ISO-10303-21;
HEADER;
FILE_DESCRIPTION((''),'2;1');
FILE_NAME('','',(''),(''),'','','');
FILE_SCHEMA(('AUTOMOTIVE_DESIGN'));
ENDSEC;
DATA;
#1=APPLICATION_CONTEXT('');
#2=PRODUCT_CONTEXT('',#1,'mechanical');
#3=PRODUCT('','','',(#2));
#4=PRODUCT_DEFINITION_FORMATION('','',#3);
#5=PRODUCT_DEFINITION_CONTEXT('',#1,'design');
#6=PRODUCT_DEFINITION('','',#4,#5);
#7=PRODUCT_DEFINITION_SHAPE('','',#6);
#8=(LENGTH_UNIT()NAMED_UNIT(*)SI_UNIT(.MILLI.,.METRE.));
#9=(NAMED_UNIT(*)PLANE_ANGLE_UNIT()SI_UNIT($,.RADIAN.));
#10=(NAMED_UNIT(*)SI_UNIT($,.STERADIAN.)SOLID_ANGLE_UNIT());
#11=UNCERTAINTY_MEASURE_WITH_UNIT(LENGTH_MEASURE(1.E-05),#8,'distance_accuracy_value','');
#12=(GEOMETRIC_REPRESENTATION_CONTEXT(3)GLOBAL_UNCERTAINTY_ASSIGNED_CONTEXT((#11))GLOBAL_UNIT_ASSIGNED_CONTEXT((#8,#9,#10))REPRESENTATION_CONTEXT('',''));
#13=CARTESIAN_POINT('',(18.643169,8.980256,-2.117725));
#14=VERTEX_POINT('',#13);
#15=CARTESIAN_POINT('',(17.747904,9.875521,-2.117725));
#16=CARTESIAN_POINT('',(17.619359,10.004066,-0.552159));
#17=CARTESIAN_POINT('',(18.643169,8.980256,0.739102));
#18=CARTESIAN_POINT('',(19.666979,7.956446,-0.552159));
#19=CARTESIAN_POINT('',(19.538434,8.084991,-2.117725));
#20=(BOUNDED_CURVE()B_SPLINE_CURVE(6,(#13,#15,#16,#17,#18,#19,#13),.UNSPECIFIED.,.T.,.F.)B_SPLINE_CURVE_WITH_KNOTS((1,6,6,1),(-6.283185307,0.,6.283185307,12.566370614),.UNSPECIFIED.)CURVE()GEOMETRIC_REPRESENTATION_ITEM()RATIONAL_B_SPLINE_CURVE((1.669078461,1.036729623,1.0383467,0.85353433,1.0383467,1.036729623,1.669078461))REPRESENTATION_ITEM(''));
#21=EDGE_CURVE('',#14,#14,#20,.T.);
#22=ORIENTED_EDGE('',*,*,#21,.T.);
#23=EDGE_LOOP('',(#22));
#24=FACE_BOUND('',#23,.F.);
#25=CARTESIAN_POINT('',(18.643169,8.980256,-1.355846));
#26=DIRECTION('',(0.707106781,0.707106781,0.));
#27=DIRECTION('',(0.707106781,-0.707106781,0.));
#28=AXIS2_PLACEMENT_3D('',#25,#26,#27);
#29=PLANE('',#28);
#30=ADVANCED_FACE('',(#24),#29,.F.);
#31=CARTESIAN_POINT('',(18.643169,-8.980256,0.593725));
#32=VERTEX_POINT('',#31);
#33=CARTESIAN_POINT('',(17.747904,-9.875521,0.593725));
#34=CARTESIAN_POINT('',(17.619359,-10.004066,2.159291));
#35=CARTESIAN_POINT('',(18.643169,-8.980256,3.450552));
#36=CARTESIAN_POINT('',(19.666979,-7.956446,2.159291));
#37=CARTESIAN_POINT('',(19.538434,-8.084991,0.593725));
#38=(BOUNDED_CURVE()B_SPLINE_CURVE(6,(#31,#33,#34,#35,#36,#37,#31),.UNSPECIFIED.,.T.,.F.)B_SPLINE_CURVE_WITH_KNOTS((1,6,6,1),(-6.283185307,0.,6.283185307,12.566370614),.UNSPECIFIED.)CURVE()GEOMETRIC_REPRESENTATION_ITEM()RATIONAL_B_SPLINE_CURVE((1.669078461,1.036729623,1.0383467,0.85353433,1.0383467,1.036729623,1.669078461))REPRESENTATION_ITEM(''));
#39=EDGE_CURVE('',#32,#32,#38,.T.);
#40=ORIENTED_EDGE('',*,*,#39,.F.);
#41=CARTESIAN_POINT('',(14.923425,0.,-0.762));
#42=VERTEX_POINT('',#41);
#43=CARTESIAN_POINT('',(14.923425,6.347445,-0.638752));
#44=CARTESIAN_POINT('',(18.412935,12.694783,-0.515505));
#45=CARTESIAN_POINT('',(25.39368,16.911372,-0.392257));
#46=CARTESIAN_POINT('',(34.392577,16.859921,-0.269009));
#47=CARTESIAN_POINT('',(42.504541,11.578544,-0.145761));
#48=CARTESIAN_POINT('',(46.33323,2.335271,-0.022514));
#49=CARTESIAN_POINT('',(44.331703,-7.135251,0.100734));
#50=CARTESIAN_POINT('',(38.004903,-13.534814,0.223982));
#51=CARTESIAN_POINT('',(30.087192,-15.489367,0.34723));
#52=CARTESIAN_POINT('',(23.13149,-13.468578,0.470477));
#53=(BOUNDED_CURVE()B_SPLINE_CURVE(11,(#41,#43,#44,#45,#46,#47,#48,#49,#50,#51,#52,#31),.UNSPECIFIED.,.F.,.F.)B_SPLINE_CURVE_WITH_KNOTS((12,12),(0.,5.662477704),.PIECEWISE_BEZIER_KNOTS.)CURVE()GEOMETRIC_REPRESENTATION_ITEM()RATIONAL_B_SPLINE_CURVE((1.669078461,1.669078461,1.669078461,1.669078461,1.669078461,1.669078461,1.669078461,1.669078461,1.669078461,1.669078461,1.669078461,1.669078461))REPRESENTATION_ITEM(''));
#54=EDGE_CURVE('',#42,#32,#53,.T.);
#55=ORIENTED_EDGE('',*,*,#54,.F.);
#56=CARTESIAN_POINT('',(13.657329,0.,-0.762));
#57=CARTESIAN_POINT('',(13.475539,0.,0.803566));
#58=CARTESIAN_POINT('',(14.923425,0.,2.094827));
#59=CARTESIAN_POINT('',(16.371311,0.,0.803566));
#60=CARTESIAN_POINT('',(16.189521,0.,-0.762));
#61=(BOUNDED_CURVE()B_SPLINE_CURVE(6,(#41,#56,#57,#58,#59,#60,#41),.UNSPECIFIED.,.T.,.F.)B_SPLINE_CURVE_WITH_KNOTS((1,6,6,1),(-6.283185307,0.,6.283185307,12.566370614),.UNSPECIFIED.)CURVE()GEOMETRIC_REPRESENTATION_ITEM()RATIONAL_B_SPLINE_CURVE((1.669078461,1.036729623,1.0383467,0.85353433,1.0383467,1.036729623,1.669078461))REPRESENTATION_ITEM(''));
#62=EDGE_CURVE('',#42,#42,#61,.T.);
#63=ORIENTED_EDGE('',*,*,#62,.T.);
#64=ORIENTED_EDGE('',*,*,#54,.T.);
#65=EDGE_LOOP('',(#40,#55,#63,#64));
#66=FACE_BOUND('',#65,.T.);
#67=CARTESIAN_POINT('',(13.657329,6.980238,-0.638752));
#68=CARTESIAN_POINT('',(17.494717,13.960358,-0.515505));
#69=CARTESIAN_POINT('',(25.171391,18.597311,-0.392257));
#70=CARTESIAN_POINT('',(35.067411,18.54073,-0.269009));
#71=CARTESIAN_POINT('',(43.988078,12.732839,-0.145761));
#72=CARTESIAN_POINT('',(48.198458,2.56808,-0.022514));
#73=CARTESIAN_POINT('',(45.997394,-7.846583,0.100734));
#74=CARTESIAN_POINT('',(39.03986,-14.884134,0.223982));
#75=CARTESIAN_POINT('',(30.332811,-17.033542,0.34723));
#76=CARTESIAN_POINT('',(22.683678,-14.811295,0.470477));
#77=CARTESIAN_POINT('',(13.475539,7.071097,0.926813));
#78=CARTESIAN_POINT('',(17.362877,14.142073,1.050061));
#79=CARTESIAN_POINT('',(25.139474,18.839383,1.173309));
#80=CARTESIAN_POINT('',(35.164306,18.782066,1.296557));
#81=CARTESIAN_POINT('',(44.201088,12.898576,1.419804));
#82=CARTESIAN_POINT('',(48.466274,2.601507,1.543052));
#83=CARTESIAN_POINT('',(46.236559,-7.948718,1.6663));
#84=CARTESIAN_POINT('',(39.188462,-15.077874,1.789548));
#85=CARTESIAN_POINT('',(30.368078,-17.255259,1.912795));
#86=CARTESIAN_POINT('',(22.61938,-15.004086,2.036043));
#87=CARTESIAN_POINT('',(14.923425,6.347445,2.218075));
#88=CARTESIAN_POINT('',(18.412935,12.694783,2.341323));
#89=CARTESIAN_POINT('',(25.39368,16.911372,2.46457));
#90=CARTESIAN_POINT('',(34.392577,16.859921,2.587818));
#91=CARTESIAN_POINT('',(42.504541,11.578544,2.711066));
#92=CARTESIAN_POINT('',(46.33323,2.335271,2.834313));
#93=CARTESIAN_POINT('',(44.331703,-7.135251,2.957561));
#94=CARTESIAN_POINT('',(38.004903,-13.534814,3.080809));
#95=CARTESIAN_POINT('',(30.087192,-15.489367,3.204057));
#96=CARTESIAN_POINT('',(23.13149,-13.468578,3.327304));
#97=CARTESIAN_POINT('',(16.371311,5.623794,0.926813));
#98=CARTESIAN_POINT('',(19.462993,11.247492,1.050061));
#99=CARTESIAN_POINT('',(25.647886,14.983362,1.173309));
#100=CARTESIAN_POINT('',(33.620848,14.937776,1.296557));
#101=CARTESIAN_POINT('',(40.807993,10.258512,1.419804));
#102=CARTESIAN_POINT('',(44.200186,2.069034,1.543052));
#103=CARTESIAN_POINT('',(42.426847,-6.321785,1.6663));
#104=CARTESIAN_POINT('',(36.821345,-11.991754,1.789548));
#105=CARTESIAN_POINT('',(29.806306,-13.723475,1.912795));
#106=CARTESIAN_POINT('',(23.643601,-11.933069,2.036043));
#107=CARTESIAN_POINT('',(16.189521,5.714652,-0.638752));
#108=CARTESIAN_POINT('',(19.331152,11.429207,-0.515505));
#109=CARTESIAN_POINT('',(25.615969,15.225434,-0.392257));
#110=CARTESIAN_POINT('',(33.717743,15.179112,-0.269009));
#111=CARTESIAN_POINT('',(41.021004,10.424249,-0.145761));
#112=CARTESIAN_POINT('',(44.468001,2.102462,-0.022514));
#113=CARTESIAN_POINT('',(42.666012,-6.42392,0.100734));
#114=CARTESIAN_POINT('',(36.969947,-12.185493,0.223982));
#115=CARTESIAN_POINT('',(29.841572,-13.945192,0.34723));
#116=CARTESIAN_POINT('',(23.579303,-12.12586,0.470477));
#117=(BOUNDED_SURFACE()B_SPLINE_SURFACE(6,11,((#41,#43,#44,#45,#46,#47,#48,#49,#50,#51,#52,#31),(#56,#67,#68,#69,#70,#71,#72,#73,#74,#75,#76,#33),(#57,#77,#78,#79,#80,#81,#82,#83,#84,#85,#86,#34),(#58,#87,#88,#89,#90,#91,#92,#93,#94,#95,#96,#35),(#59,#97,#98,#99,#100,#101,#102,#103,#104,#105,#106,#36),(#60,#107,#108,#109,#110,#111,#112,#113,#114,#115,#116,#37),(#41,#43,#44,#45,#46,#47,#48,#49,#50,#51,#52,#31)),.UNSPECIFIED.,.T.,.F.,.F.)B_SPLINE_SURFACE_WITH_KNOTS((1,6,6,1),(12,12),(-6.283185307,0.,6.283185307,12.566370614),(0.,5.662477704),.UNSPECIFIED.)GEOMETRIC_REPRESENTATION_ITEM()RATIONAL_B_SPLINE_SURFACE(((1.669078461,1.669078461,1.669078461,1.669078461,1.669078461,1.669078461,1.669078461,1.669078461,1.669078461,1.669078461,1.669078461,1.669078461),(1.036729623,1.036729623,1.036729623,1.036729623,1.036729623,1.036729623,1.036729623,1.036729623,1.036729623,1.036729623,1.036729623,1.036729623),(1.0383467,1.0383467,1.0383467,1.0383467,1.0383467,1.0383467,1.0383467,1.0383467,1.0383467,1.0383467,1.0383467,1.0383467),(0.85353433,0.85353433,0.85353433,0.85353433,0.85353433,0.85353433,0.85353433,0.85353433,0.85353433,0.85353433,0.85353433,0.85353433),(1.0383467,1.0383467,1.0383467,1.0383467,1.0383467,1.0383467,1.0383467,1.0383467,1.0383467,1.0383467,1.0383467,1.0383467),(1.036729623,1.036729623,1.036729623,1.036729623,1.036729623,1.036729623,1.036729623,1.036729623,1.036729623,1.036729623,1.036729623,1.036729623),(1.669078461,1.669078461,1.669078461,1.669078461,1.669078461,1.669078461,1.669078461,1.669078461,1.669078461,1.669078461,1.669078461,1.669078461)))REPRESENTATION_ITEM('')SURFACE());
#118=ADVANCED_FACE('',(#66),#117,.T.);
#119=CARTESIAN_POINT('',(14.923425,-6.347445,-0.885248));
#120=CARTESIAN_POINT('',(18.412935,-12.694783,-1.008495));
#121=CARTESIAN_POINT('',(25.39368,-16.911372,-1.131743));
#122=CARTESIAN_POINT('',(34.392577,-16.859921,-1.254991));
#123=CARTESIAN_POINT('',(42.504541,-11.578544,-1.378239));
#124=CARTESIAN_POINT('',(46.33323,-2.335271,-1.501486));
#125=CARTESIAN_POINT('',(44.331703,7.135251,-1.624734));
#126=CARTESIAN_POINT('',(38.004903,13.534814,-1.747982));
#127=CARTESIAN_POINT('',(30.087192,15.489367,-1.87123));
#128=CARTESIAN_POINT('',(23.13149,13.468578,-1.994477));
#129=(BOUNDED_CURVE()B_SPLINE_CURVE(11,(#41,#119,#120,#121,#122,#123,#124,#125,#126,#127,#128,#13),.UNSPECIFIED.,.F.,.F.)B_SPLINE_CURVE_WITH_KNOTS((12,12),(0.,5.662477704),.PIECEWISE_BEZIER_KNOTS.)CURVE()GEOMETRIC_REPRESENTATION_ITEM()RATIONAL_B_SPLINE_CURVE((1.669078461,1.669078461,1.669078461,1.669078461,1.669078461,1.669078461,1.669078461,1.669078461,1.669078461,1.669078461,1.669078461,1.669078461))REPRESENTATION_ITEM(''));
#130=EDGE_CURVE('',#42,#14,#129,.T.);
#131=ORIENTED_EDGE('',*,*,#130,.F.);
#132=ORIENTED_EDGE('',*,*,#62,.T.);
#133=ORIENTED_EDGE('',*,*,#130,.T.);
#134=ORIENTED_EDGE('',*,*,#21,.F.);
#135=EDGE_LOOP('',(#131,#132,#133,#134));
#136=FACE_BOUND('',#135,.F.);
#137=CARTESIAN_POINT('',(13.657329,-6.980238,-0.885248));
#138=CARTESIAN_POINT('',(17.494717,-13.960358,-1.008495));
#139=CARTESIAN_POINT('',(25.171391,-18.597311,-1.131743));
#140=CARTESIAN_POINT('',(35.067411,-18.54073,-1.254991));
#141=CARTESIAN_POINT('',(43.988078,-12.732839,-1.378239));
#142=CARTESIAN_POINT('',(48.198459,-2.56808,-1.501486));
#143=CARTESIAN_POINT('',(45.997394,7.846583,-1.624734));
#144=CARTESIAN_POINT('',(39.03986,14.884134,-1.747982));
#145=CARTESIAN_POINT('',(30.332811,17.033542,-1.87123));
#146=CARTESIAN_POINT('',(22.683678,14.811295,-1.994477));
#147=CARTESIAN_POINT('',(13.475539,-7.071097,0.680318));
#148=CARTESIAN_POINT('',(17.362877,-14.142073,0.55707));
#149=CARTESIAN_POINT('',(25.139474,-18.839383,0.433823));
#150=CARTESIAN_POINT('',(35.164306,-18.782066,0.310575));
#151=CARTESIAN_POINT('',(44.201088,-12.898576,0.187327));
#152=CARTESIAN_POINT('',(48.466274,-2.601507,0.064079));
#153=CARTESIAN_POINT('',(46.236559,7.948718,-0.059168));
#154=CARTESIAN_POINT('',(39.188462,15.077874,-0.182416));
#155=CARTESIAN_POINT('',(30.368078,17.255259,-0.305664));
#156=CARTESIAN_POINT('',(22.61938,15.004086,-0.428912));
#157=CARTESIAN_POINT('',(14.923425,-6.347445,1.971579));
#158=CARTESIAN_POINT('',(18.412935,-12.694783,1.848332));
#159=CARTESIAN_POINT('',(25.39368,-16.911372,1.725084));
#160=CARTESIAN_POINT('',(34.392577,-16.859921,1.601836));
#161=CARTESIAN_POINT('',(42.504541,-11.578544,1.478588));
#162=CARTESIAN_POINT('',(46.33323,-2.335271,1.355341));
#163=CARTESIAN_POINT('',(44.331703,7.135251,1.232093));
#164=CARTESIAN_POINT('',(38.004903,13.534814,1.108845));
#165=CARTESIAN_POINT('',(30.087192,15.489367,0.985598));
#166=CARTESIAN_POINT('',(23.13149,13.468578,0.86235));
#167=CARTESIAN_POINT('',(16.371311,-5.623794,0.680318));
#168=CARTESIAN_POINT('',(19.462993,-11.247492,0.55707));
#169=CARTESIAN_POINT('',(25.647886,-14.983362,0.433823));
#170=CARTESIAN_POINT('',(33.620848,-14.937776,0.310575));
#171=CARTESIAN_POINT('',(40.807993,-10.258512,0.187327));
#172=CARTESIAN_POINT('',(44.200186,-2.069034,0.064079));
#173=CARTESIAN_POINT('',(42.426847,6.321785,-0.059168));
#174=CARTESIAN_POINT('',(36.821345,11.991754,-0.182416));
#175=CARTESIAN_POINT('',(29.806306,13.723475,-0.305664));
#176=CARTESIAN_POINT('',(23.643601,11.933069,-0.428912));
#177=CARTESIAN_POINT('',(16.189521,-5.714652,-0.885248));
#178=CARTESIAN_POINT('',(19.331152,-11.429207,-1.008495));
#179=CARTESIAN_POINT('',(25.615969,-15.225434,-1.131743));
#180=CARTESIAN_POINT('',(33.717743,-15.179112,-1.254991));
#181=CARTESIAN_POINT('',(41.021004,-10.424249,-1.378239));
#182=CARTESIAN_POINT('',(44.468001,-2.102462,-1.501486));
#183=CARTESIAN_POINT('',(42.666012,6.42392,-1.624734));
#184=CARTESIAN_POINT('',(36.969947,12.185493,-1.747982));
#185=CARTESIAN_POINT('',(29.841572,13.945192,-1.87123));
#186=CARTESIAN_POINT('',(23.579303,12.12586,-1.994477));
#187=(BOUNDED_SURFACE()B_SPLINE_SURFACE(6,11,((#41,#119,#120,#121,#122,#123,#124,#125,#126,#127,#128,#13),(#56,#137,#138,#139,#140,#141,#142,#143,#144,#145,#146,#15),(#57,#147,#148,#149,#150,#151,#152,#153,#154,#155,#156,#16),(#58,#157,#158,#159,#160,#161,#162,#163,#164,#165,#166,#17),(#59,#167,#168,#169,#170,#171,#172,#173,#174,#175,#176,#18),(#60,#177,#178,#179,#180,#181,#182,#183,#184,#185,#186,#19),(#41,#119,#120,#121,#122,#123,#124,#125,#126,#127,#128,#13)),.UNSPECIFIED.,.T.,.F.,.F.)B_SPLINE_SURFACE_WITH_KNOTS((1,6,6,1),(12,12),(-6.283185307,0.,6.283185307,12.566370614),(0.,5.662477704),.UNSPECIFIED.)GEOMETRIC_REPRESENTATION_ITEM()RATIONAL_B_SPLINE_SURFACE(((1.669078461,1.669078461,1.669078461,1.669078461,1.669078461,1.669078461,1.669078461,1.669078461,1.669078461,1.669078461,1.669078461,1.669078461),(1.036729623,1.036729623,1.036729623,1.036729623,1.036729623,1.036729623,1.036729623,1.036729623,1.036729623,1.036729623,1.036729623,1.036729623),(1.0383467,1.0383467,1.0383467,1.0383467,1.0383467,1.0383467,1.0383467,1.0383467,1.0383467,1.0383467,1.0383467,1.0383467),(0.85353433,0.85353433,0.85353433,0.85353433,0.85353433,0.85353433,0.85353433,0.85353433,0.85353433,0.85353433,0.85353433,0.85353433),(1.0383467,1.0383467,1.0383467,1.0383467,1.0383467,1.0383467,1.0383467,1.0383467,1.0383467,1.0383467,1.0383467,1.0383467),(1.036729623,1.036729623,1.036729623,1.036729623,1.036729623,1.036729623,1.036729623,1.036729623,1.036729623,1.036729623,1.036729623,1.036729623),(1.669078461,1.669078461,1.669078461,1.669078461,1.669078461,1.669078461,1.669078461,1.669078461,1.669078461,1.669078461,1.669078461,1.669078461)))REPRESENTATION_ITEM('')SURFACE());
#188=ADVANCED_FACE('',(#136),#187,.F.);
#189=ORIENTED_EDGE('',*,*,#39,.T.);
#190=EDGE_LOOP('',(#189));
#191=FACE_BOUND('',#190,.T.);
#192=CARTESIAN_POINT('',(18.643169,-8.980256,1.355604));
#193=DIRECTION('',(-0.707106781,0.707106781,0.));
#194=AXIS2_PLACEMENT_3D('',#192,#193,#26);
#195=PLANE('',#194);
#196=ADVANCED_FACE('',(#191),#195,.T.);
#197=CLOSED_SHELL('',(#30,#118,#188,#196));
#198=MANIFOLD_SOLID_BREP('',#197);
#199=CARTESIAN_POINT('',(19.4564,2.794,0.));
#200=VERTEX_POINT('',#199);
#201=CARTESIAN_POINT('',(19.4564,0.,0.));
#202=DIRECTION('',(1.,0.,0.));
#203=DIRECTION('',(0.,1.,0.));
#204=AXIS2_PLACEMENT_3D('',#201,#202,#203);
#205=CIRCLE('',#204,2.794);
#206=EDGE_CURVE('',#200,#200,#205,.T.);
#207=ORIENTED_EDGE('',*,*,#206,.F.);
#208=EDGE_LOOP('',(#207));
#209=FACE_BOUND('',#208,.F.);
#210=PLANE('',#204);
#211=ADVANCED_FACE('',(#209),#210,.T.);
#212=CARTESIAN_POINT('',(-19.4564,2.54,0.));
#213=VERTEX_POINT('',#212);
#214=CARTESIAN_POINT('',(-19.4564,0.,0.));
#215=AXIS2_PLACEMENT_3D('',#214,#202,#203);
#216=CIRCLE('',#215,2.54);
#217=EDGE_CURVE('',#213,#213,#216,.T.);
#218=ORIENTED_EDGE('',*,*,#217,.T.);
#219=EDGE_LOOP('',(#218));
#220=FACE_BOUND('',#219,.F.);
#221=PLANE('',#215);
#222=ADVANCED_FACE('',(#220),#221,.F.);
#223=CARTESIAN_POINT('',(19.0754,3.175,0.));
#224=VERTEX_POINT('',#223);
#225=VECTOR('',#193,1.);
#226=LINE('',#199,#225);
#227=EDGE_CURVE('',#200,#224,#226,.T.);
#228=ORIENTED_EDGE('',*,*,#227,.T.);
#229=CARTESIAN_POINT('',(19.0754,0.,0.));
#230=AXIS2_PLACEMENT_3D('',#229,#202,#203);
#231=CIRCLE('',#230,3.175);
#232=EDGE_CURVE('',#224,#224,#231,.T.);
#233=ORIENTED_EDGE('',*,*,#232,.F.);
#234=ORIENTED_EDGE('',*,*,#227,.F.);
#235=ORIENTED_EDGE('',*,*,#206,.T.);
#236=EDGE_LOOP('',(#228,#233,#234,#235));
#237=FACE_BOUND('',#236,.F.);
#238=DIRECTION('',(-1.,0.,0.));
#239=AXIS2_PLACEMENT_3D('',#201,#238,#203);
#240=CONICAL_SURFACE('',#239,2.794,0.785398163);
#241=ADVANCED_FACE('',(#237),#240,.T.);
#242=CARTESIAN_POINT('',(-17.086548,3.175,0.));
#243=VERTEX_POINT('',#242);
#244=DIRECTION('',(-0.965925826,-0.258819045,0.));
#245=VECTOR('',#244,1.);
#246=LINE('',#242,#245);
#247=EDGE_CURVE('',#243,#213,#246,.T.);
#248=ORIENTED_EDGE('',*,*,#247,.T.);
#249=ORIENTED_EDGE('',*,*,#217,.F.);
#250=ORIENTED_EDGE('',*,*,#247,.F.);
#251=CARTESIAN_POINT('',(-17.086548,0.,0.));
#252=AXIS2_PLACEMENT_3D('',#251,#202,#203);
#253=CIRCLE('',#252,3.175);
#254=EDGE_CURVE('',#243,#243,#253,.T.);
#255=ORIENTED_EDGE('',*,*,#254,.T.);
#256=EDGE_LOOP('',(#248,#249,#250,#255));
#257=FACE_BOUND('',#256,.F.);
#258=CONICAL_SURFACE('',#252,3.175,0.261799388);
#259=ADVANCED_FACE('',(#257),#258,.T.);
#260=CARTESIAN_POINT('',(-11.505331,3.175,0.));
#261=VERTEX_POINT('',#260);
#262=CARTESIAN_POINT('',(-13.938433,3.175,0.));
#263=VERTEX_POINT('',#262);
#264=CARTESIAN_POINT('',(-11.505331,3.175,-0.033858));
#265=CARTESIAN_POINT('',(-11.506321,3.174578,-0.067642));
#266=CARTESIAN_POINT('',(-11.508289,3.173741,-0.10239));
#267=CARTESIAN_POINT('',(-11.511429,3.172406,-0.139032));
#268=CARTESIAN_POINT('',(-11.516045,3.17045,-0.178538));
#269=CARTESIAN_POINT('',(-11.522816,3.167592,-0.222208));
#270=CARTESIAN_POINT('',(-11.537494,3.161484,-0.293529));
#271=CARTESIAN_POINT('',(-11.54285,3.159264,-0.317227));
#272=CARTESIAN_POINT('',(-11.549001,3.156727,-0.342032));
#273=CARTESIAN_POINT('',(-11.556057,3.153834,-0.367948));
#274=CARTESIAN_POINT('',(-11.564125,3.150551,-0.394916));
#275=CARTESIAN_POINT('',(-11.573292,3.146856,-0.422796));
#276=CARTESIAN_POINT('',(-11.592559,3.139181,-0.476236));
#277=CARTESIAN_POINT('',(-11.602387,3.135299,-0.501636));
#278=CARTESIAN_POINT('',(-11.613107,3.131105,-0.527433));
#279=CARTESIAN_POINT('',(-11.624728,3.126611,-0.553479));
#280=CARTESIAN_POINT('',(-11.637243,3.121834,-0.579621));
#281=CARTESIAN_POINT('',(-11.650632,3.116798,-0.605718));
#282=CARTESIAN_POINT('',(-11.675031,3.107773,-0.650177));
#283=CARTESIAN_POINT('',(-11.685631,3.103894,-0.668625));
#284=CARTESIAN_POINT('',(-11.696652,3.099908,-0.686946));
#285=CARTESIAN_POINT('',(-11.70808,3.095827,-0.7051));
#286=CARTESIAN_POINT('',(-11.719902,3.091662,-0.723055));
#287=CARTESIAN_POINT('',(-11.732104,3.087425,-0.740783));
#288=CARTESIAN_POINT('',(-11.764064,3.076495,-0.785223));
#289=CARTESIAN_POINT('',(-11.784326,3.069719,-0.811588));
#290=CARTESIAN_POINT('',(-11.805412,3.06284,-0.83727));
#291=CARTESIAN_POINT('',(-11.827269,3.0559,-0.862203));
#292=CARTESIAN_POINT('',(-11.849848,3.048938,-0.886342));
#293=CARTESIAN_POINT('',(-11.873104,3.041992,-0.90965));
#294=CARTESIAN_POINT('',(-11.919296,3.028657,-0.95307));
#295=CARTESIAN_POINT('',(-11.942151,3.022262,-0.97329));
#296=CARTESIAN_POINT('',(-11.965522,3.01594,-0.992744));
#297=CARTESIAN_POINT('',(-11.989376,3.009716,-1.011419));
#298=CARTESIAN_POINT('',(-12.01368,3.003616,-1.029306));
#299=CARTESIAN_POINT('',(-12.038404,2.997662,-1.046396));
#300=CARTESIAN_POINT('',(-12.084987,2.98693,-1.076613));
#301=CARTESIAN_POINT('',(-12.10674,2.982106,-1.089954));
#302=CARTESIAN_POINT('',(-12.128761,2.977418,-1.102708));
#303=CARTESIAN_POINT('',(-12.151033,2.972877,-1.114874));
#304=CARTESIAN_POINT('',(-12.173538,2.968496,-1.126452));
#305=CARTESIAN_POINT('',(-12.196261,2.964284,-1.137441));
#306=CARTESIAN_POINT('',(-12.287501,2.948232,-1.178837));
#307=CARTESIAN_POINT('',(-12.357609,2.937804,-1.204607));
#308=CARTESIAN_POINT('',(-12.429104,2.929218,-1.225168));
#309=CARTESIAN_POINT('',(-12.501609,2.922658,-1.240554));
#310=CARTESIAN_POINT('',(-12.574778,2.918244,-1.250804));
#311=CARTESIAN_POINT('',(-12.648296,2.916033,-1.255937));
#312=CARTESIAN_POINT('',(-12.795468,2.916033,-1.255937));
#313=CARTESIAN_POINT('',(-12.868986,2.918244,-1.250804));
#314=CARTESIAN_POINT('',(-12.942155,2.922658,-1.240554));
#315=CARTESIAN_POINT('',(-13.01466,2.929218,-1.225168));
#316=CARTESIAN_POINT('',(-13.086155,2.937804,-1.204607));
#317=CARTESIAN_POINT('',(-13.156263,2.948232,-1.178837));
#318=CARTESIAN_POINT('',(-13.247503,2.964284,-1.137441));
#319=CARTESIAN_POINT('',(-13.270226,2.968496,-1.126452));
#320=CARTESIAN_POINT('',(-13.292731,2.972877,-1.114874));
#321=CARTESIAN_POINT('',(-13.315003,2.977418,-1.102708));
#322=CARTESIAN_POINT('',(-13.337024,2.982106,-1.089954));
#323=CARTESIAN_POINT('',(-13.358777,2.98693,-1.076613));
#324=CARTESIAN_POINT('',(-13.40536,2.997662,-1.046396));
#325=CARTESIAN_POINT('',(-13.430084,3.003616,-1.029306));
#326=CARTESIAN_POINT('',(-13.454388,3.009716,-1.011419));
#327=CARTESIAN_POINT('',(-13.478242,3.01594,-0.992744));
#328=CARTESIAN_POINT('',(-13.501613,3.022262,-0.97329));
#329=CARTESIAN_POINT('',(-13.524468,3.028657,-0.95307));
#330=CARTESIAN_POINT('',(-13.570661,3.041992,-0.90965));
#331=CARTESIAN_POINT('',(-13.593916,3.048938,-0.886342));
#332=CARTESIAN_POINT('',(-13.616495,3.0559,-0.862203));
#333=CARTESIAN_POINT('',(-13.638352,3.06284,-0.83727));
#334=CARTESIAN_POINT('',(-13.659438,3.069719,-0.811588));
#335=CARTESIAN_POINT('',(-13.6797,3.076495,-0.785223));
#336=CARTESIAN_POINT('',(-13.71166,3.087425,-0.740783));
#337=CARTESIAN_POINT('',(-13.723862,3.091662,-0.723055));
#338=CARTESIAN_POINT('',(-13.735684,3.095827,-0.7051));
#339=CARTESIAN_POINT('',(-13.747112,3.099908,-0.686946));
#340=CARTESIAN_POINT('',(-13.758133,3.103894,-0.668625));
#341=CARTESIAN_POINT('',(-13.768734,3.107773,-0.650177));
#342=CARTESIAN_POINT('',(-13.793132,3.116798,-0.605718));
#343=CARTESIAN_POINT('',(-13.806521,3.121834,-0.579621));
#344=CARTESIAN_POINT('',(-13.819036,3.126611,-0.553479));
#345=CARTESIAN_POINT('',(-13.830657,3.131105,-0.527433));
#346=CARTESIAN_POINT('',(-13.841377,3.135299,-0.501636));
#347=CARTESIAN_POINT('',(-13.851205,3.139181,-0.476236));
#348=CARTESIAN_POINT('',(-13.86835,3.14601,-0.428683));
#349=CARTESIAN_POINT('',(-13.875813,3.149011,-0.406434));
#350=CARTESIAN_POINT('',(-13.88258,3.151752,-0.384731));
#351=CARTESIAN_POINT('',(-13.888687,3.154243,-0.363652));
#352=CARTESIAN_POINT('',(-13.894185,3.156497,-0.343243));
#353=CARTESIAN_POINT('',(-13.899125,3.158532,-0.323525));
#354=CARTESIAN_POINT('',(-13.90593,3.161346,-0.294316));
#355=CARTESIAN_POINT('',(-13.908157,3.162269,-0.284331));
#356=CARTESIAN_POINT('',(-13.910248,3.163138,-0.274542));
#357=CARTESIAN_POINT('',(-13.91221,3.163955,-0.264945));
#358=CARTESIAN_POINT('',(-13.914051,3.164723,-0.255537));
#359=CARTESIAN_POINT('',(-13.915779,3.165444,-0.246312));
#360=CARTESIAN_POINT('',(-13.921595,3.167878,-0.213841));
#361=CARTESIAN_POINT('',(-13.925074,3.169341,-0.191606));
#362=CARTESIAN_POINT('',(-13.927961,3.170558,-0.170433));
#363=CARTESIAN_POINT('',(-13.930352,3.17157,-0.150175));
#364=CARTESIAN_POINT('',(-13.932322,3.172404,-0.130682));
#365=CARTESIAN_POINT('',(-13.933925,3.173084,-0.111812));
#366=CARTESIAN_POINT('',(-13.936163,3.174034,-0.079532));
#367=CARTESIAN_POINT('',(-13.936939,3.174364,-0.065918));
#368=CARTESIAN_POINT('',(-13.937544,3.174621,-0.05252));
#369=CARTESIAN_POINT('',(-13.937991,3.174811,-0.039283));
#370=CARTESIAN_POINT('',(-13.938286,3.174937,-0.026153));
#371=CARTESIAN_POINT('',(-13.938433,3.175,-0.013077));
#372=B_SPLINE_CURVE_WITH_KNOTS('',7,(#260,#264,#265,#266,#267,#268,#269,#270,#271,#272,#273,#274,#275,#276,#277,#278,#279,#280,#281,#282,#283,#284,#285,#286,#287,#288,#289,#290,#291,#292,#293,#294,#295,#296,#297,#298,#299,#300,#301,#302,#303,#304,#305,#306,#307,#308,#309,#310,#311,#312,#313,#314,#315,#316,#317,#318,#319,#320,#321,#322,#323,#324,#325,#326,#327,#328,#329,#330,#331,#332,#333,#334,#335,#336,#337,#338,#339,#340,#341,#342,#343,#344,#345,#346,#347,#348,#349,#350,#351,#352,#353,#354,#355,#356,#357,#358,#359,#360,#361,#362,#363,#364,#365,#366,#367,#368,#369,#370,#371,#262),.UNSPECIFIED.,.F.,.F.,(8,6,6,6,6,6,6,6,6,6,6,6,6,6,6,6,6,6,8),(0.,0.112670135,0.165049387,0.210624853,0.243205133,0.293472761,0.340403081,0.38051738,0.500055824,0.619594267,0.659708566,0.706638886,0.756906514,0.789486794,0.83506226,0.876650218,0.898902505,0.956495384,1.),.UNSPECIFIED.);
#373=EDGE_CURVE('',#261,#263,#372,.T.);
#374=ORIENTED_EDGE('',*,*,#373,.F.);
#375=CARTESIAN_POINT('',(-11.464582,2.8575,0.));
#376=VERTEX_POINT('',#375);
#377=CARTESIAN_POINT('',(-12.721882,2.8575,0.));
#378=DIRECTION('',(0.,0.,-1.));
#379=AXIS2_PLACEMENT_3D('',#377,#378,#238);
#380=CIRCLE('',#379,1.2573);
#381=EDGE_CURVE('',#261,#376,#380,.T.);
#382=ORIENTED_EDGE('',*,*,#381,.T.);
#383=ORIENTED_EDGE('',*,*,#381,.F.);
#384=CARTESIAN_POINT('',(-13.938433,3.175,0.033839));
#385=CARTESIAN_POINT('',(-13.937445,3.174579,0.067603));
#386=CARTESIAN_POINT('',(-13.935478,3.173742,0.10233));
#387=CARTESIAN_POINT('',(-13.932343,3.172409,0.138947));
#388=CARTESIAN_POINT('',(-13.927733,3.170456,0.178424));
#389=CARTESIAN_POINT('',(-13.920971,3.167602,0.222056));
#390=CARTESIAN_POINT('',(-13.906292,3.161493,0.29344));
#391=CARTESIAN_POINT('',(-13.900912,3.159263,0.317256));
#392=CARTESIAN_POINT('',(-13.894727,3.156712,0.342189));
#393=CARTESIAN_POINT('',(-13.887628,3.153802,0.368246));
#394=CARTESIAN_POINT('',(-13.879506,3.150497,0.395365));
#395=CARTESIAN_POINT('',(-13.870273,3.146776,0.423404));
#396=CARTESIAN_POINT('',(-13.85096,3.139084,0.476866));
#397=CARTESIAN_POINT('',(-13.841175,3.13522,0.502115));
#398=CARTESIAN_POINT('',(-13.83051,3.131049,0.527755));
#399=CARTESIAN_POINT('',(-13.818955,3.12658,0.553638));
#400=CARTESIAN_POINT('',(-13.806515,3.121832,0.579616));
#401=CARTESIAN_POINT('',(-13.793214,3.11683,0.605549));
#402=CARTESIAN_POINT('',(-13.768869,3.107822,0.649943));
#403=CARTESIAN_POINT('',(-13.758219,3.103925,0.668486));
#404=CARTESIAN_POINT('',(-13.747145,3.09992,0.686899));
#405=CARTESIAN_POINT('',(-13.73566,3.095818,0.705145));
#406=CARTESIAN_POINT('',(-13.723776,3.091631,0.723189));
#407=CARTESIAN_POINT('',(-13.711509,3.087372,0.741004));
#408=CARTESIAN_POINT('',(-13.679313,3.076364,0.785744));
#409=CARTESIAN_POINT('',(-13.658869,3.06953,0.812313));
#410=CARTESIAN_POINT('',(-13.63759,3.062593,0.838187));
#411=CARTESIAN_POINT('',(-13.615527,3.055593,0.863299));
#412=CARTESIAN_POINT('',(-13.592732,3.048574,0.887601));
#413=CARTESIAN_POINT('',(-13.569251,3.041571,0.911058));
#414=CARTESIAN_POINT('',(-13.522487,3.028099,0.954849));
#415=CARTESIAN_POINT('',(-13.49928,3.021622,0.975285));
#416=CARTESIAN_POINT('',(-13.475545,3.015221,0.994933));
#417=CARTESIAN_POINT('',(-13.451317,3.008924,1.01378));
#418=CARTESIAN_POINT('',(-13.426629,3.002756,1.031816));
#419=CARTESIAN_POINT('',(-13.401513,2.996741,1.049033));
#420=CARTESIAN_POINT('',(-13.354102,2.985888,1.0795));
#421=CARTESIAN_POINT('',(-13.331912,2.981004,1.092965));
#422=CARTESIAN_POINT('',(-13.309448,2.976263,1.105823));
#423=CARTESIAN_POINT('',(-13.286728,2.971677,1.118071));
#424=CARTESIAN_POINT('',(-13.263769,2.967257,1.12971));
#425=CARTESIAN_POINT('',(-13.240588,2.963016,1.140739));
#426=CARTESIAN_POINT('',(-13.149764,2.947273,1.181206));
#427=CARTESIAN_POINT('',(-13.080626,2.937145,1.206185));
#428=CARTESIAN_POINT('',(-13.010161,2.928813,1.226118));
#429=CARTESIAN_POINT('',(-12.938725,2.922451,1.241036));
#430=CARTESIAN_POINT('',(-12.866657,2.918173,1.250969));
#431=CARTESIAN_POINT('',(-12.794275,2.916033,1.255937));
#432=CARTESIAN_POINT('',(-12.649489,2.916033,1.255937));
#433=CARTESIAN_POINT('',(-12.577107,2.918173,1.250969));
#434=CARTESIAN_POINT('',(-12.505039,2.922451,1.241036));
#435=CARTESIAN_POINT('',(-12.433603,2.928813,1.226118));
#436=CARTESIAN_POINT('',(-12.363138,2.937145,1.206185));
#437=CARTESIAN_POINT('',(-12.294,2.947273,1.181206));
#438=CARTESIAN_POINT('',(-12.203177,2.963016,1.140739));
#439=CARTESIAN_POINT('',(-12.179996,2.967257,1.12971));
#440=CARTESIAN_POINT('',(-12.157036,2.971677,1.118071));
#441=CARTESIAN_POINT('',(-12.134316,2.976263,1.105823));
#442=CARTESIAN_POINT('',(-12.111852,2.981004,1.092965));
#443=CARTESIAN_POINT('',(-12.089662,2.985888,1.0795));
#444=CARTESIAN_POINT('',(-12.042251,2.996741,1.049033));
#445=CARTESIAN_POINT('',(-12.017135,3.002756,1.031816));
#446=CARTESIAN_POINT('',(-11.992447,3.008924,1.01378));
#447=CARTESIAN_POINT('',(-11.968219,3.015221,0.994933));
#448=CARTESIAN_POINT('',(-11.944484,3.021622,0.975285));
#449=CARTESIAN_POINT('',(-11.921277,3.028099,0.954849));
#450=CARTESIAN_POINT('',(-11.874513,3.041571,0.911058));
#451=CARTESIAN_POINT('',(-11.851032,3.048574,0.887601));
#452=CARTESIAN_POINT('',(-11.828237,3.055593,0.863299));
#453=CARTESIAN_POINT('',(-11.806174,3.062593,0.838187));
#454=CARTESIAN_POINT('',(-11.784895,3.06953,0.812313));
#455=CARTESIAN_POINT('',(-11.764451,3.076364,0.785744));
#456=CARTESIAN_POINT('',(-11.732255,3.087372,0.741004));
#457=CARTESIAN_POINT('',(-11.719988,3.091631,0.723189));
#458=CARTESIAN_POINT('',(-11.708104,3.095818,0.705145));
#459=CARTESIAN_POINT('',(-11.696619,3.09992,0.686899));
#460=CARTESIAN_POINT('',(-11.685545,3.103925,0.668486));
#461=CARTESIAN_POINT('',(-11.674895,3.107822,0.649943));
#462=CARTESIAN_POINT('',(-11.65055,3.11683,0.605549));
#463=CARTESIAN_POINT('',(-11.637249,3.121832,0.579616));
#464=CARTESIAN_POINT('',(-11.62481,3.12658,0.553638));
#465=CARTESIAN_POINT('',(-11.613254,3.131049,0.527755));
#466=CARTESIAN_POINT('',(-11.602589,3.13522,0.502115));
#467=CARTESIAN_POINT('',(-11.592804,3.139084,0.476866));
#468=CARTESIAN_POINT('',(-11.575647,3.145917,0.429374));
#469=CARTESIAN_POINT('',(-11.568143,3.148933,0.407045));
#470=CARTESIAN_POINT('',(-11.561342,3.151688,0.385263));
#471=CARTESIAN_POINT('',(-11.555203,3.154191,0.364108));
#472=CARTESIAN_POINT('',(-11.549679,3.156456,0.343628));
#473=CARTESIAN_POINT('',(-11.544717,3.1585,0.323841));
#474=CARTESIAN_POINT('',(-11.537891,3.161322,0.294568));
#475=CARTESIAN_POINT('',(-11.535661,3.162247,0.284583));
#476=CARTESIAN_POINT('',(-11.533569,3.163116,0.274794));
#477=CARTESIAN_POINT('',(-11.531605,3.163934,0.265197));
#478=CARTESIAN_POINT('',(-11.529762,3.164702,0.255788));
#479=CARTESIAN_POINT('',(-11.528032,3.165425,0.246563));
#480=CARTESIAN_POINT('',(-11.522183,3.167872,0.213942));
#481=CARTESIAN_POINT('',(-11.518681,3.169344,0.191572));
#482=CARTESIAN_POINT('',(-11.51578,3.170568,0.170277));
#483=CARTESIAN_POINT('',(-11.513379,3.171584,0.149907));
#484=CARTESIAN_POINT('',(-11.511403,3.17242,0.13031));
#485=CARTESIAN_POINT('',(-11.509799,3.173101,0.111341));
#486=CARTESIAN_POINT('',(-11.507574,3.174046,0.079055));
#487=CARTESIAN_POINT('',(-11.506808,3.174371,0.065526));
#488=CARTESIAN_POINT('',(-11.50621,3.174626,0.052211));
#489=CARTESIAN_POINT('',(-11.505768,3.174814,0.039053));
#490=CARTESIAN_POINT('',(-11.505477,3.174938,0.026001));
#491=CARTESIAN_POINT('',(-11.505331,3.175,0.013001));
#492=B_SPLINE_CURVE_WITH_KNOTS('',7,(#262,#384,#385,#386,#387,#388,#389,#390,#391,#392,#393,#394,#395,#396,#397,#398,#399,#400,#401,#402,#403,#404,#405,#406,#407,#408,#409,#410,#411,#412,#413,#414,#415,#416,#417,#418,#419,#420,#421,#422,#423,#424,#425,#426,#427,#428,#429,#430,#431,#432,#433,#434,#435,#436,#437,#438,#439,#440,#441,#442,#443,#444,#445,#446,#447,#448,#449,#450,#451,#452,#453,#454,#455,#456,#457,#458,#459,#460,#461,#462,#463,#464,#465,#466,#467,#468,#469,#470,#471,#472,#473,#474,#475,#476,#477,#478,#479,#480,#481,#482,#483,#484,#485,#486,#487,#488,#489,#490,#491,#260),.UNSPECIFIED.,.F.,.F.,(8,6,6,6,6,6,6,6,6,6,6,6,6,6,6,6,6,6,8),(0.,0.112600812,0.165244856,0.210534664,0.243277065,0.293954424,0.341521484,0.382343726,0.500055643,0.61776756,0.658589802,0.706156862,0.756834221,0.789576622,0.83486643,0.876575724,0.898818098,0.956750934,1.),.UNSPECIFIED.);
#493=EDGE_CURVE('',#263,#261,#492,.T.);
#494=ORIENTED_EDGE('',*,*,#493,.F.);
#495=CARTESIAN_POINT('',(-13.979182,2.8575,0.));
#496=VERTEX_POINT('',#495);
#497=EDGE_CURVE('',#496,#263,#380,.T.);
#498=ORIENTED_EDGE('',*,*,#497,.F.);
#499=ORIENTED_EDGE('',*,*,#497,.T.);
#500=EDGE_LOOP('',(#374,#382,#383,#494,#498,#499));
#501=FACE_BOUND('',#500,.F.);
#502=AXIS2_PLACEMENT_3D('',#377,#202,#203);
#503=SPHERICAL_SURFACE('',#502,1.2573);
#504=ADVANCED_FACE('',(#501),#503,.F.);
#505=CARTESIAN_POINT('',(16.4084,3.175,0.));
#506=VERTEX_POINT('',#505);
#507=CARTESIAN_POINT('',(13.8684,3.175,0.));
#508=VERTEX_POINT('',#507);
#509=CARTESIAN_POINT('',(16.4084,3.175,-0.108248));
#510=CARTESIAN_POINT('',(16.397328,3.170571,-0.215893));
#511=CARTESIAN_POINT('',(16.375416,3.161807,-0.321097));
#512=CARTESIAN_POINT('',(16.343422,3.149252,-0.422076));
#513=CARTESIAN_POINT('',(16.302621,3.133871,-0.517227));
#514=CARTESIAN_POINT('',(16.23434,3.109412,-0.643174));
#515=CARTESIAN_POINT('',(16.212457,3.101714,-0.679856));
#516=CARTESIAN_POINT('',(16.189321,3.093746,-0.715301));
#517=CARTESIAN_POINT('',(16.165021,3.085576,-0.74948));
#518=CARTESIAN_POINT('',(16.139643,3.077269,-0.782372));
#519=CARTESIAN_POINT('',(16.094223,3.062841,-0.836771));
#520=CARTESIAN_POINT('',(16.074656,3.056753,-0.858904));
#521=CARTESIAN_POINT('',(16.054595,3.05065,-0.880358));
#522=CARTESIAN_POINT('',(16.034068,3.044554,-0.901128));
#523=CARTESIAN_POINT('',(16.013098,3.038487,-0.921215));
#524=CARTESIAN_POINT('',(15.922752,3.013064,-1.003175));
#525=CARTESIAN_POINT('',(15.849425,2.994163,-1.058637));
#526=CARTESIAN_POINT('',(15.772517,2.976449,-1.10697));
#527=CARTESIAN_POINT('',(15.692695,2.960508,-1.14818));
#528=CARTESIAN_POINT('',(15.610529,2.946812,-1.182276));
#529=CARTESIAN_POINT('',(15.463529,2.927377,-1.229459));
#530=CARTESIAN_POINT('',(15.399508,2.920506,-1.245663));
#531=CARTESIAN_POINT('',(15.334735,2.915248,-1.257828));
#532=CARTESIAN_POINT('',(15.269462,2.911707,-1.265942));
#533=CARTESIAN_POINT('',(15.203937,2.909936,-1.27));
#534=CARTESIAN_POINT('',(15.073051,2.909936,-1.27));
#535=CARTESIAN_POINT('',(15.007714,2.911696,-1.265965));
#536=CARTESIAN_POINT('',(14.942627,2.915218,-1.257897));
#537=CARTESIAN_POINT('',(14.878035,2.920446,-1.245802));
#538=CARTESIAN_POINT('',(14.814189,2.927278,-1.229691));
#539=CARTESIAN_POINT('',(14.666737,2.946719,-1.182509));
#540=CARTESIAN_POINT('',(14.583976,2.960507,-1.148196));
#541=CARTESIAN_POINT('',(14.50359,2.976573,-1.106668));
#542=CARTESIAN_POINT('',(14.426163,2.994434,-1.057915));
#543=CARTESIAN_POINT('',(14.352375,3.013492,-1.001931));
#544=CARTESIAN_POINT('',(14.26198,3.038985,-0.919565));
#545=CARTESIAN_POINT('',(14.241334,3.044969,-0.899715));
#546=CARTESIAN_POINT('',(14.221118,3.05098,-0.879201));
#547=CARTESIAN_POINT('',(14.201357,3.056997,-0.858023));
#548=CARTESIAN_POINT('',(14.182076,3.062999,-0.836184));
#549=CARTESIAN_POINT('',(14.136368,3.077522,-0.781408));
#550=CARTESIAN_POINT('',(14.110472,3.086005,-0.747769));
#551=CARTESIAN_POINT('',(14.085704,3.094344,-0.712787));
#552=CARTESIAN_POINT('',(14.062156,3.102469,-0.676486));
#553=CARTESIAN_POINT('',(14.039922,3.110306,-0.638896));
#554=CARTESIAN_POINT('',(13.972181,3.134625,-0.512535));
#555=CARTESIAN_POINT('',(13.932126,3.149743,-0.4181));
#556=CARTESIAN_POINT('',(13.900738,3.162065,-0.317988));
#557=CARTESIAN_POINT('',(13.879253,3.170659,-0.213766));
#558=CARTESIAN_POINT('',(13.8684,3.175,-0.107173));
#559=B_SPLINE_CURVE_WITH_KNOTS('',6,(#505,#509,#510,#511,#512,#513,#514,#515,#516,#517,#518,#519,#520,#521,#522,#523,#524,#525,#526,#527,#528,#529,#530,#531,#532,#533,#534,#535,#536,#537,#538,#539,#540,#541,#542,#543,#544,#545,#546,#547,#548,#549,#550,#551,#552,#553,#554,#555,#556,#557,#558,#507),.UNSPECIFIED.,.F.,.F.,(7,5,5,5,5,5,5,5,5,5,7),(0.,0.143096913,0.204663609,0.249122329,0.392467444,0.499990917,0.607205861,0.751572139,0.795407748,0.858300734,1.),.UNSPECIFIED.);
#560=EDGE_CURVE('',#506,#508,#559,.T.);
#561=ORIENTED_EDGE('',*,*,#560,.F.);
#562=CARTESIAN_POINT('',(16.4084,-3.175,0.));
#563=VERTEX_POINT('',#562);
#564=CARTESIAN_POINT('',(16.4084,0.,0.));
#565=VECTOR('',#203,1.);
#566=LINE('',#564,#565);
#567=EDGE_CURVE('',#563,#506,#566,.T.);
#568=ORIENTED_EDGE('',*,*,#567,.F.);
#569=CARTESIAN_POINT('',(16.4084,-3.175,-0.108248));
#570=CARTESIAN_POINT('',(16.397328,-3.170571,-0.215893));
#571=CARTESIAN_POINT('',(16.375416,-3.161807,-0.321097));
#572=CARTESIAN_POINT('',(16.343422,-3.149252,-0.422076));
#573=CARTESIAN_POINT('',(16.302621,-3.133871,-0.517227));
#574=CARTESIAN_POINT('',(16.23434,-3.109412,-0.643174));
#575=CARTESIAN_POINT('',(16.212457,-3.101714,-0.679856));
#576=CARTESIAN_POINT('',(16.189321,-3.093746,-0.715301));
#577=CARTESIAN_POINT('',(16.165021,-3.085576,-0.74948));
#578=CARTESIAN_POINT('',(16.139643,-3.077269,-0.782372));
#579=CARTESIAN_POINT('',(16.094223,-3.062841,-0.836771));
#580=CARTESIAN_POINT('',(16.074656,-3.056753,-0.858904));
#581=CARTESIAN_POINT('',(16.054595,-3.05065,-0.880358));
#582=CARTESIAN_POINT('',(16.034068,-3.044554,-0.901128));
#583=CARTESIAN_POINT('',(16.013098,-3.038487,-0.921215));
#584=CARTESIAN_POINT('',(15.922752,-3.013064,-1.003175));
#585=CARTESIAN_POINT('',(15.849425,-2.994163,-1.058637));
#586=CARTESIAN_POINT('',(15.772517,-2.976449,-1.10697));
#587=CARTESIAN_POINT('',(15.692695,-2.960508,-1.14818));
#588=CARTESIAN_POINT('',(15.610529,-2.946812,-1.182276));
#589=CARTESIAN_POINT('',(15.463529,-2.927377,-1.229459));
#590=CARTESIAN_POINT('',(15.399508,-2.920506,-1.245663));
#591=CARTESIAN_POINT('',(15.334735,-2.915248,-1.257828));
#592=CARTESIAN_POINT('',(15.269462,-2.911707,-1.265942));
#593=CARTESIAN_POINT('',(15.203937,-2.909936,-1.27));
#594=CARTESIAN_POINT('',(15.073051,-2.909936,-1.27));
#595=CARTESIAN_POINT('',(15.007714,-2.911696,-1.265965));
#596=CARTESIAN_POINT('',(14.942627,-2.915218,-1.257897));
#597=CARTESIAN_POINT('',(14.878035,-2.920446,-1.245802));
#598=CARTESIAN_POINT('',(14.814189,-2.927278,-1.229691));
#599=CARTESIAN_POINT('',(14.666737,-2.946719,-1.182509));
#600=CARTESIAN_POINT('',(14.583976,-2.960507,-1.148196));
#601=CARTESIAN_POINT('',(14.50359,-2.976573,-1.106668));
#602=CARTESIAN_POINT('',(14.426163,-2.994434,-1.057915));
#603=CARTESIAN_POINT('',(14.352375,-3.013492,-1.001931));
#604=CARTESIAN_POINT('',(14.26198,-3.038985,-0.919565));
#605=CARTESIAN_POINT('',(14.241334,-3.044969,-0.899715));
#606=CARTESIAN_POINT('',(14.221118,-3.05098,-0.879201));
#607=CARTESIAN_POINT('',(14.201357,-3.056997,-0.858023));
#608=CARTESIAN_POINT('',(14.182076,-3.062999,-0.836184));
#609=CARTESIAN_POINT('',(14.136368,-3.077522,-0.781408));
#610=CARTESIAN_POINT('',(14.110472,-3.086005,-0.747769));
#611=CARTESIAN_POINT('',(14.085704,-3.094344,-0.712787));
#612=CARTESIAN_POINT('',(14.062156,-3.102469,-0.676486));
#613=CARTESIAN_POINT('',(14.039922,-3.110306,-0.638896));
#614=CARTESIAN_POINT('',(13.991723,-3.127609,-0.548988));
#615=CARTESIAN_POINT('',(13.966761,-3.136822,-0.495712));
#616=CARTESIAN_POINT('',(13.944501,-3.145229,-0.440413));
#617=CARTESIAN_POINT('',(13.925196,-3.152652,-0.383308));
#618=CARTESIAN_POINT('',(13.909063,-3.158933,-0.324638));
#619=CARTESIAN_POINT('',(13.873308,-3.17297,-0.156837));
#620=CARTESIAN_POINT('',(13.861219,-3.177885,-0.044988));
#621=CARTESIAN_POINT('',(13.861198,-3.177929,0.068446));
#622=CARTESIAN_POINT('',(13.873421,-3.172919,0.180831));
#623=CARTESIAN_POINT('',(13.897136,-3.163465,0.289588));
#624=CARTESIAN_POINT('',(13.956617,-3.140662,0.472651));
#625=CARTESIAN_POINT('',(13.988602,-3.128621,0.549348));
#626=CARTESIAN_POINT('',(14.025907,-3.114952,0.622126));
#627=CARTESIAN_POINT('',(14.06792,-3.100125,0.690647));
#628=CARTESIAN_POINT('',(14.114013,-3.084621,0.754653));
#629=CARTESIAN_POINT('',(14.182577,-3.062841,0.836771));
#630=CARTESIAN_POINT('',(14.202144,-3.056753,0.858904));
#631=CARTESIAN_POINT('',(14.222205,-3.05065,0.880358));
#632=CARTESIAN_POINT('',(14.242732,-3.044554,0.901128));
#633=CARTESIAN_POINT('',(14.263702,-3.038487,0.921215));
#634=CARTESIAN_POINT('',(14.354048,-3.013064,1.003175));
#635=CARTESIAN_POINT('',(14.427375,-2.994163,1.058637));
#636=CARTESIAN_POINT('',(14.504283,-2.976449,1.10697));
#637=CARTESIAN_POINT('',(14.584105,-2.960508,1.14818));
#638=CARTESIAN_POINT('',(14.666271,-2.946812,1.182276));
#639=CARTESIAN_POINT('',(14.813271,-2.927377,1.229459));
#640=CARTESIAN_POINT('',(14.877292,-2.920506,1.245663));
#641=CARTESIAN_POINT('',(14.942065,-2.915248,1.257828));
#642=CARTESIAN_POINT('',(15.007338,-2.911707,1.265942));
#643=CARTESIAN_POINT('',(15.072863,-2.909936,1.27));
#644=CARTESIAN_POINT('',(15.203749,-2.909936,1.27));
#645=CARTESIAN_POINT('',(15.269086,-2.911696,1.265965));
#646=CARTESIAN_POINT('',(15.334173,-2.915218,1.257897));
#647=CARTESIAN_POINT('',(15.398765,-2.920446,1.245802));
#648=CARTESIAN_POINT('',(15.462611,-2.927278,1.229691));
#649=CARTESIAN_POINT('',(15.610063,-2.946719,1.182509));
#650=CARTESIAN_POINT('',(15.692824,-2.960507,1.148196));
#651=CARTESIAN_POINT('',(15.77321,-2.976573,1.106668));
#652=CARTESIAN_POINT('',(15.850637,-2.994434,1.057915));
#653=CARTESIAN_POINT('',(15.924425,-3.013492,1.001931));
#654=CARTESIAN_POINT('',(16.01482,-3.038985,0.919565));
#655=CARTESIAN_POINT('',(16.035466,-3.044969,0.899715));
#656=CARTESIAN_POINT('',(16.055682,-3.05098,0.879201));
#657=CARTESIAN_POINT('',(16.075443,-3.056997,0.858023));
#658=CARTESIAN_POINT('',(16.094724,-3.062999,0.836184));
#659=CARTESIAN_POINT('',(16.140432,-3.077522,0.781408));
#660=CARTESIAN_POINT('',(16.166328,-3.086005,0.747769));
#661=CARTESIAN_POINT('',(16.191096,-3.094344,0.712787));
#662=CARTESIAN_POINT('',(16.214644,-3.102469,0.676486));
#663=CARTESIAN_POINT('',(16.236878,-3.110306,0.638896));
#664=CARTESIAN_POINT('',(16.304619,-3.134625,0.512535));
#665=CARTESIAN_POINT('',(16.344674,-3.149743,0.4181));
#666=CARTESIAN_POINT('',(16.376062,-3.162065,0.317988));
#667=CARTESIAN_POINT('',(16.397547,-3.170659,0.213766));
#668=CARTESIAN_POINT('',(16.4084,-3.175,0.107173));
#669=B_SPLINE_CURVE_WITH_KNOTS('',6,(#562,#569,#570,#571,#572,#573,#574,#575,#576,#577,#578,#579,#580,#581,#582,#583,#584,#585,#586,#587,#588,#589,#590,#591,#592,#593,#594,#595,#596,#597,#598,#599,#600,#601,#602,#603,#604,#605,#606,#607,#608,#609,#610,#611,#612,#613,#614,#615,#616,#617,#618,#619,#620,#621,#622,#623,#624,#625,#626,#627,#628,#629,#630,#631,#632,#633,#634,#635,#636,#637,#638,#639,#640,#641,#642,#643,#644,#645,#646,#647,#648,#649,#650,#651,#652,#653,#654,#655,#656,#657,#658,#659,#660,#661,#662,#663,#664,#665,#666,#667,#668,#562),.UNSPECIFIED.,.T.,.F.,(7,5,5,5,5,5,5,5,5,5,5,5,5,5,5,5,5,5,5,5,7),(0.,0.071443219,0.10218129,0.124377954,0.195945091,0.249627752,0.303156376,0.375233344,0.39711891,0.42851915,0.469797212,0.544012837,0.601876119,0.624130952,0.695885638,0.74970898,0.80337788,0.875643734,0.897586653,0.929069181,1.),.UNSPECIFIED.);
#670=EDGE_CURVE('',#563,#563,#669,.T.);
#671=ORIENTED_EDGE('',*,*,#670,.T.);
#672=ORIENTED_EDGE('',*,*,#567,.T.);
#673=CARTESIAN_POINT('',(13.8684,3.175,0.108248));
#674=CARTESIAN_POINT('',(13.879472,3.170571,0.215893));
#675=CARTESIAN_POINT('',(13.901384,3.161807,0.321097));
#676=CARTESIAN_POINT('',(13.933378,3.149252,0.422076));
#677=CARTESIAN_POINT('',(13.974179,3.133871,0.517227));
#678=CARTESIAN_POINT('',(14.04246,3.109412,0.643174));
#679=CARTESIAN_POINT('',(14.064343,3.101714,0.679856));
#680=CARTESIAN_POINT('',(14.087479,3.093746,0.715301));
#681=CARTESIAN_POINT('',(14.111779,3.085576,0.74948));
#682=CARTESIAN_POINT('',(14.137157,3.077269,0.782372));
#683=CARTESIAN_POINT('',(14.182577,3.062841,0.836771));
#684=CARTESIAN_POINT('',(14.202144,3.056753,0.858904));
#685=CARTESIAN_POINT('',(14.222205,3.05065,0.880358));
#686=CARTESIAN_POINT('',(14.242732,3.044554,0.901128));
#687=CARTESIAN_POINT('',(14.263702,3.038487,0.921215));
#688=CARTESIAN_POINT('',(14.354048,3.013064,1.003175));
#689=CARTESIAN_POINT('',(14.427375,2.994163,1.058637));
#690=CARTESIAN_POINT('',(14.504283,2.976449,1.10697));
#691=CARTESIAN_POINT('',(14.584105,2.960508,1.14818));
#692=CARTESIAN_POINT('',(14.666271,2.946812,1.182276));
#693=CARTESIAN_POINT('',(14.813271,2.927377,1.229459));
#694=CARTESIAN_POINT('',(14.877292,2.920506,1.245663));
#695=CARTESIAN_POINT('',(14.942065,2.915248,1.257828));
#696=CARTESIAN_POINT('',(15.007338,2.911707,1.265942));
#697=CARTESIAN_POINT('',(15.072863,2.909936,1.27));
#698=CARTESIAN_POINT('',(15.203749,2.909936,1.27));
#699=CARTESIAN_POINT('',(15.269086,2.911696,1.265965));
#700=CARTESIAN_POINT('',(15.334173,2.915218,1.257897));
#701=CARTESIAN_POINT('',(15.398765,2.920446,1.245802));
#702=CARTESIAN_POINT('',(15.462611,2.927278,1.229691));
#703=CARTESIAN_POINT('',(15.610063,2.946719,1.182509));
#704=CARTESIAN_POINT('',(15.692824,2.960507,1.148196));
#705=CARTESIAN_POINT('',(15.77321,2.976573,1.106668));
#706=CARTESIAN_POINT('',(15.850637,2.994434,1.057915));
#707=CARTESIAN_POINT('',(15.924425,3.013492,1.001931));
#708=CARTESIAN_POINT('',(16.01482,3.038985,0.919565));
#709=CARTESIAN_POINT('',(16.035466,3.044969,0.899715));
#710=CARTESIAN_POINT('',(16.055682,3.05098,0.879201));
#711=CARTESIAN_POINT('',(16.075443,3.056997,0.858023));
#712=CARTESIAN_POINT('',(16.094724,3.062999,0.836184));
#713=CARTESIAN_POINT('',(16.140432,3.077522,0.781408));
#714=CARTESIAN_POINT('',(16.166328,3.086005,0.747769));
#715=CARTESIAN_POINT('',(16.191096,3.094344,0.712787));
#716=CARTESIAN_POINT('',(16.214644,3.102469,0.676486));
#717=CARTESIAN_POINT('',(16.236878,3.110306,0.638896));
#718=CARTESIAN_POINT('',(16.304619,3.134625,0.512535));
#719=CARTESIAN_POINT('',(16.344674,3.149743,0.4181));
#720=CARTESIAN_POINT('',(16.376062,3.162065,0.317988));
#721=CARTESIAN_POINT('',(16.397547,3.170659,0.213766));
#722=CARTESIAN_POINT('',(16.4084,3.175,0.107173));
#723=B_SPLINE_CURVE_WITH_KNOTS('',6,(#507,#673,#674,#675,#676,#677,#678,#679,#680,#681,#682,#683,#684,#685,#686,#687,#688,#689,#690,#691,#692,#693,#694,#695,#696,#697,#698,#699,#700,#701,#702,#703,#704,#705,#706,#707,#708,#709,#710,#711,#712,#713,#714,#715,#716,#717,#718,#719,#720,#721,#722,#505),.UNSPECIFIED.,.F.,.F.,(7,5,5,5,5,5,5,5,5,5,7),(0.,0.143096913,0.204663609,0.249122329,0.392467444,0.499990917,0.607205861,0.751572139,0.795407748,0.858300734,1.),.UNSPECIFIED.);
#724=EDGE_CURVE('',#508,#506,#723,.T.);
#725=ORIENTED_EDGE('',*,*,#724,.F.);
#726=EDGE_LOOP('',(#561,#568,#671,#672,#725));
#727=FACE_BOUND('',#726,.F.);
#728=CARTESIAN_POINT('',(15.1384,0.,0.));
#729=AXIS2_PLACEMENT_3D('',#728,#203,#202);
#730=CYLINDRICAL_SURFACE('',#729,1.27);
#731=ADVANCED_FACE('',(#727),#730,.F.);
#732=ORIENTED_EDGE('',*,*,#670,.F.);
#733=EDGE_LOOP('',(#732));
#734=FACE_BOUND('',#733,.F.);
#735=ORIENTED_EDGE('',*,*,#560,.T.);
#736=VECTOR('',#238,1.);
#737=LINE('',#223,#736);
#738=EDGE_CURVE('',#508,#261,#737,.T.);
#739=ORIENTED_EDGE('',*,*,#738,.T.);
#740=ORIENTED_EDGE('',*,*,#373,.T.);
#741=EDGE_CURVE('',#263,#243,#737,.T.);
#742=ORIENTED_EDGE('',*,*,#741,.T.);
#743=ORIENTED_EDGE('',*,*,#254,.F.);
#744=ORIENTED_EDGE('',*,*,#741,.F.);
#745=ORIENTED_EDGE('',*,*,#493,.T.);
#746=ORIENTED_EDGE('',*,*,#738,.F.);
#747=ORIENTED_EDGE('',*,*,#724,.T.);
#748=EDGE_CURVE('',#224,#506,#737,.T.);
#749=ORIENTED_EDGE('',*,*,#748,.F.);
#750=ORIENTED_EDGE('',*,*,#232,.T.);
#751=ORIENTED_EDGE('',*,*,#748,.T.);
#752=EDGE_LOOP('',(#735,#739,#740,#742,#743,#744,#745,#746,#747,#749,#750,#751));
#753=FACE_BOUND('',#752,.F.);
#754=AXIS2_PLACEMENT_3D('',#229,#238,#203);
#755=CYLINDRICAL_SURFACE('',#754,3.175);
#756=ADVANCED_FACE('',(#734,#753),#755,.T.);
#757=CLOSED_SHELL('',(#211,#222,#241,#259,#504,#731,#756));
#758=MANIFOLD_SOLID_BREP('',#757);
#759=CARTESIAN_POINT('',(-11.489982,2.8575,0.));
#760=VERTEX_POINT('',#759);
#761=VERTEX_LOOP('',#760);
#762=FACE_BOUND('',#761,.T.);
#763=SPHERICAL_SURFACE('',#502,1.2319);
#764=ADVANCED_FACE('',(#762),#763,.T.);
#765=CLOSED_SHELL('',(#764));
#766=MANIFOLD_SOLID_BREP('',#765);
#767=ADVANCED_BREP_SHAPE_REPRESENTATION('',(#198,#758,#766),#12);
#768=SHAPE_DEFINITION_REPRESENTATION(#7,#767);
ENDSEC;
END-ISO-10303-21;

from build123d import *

# Parameters (mm, degrees)
SKETCH4_W          = 1.27
SKETCH4_H          = 6.35
SWEEP1_PITCH       = 1.5494
SWEEP1_HEIGHT      = 1.355725
SWEEP1_RADIUS      = 13.462
SKETCH6_R          = 0.762
SWEEP2_PITCH       = 1.5494
SWEEP2_HEIGHT      = 1.355725
SWEEP2_RADIUS      = 13.462
SWEEP2_START_ANGLE = -180
SKETCH6_2_R        = 0.762


with BuildPart() as part:
    # Sketch1 → Revolve1 (revolve)
    with BuildSketch(Plane.XY):
        Polygon((19.4564, 2.794), (19.0754, 3.175), (-17.086547737, 3.175), (-19.4564, 2.54), (-19.4564, 0), (19.4564, 0), align=None)
    revolve(axis=Axis((19.4564, 0, 0), (1, 0, 0)))

    # Sketch2 → Cut-Revolve1 (revolve, cut)
    with BuildSketch(Plane.XY):
        with BuildLine():
            Line((-11.464582051, 2.8575), (-13.979182051, 2.8575))
            ThreePointArc((-13.979182051, 2.8575), (-12.721882051, 4.1148), (-11.464582051, 2.8575))
        make_face()
    revolve(axis=Axis((-11.464582051, 2.8575, 0), (1, 0, 0)), mode=Mode.SUBTRACT)

    # Sketch4 → Cut-Revolve2 (revolve, cut)
    with BuildSketch(Plane.XY):
        with Locations((15.7734, 0)):
            Rectangle(SKETCH4_W, SKETCH4_H)
    revolve(axis=Axis((15.1384, -3.175, 0), (0, 1, 0)), mode=Mode.SUBTRACT)


with BuildPart() as body_2:
    # Sketch3 → Revolve2 (revolve)
    with BuildSketch(Plane.XY):
        with BuildLine():
            Line((-11.489982051, 2.8575), (-13.953782051, 2.8575))
            ThreePointArc((-13.953782051, 2.8575), (-12.721882051, 4.0894), (-11.489982051, 2.8575))
        make_face()
    revolve(axis=Axis((-11.489982051, 2.8575, 0), (1, 0, 0)))


with BuildPart() as body_3:
    # Sweep1: sweep along a helix
    with BuildLine() as sweep1_path:
        Helix(SWEEP1_PITCH, SWEEP1_HEIGHT, SWEEP1_RADIUS, center=(27.623425091, 0, 0), direction=(0, 0, -1), lefthand=True)
    # Sketch6 → Sweep1 (sweep)
    with BuildSketch(Plane(origin=(114.003847968, 0, 0), x_dir=(0, 0, -1), z_dir=(0, 1, 0))):
        with Locations((0, 99.080422877)):
            Circle(SKETCH6_R)
    sweep(path=sweep1_path.line, is_frenet=True)

    # Sweep2: sweep along a helix
    with BuildLine() as sweep2_path:
        add(Helix(SWEEP2_PITCH, SWEEP2_HEIGHT, SWEEP2_RADIUS, center=(27.623425091, 0, 0), direction=(0, 0, 1), lefthand=True, mode=Mode.PRIVATE).rotate(Axis((27.623425091, 0, 0), (0, 0, 1)), SWEEP2_START_ANGLE))
    # Sketch6<2> → Sweep2 (sweep)
    with BuildSketch(Plane(origin=(114.003847968, 0, 0), x_dir=(0, 0, -1), z_dir=(0, 1, 0))):
        with Locations((0, 99.080422877)):
            Circle(SKETCH6_2_R)
    sweep(path=sweep2_path.line, is_frenet=True)


solid = Compound([part.part, body_2.part, body_3.part])
